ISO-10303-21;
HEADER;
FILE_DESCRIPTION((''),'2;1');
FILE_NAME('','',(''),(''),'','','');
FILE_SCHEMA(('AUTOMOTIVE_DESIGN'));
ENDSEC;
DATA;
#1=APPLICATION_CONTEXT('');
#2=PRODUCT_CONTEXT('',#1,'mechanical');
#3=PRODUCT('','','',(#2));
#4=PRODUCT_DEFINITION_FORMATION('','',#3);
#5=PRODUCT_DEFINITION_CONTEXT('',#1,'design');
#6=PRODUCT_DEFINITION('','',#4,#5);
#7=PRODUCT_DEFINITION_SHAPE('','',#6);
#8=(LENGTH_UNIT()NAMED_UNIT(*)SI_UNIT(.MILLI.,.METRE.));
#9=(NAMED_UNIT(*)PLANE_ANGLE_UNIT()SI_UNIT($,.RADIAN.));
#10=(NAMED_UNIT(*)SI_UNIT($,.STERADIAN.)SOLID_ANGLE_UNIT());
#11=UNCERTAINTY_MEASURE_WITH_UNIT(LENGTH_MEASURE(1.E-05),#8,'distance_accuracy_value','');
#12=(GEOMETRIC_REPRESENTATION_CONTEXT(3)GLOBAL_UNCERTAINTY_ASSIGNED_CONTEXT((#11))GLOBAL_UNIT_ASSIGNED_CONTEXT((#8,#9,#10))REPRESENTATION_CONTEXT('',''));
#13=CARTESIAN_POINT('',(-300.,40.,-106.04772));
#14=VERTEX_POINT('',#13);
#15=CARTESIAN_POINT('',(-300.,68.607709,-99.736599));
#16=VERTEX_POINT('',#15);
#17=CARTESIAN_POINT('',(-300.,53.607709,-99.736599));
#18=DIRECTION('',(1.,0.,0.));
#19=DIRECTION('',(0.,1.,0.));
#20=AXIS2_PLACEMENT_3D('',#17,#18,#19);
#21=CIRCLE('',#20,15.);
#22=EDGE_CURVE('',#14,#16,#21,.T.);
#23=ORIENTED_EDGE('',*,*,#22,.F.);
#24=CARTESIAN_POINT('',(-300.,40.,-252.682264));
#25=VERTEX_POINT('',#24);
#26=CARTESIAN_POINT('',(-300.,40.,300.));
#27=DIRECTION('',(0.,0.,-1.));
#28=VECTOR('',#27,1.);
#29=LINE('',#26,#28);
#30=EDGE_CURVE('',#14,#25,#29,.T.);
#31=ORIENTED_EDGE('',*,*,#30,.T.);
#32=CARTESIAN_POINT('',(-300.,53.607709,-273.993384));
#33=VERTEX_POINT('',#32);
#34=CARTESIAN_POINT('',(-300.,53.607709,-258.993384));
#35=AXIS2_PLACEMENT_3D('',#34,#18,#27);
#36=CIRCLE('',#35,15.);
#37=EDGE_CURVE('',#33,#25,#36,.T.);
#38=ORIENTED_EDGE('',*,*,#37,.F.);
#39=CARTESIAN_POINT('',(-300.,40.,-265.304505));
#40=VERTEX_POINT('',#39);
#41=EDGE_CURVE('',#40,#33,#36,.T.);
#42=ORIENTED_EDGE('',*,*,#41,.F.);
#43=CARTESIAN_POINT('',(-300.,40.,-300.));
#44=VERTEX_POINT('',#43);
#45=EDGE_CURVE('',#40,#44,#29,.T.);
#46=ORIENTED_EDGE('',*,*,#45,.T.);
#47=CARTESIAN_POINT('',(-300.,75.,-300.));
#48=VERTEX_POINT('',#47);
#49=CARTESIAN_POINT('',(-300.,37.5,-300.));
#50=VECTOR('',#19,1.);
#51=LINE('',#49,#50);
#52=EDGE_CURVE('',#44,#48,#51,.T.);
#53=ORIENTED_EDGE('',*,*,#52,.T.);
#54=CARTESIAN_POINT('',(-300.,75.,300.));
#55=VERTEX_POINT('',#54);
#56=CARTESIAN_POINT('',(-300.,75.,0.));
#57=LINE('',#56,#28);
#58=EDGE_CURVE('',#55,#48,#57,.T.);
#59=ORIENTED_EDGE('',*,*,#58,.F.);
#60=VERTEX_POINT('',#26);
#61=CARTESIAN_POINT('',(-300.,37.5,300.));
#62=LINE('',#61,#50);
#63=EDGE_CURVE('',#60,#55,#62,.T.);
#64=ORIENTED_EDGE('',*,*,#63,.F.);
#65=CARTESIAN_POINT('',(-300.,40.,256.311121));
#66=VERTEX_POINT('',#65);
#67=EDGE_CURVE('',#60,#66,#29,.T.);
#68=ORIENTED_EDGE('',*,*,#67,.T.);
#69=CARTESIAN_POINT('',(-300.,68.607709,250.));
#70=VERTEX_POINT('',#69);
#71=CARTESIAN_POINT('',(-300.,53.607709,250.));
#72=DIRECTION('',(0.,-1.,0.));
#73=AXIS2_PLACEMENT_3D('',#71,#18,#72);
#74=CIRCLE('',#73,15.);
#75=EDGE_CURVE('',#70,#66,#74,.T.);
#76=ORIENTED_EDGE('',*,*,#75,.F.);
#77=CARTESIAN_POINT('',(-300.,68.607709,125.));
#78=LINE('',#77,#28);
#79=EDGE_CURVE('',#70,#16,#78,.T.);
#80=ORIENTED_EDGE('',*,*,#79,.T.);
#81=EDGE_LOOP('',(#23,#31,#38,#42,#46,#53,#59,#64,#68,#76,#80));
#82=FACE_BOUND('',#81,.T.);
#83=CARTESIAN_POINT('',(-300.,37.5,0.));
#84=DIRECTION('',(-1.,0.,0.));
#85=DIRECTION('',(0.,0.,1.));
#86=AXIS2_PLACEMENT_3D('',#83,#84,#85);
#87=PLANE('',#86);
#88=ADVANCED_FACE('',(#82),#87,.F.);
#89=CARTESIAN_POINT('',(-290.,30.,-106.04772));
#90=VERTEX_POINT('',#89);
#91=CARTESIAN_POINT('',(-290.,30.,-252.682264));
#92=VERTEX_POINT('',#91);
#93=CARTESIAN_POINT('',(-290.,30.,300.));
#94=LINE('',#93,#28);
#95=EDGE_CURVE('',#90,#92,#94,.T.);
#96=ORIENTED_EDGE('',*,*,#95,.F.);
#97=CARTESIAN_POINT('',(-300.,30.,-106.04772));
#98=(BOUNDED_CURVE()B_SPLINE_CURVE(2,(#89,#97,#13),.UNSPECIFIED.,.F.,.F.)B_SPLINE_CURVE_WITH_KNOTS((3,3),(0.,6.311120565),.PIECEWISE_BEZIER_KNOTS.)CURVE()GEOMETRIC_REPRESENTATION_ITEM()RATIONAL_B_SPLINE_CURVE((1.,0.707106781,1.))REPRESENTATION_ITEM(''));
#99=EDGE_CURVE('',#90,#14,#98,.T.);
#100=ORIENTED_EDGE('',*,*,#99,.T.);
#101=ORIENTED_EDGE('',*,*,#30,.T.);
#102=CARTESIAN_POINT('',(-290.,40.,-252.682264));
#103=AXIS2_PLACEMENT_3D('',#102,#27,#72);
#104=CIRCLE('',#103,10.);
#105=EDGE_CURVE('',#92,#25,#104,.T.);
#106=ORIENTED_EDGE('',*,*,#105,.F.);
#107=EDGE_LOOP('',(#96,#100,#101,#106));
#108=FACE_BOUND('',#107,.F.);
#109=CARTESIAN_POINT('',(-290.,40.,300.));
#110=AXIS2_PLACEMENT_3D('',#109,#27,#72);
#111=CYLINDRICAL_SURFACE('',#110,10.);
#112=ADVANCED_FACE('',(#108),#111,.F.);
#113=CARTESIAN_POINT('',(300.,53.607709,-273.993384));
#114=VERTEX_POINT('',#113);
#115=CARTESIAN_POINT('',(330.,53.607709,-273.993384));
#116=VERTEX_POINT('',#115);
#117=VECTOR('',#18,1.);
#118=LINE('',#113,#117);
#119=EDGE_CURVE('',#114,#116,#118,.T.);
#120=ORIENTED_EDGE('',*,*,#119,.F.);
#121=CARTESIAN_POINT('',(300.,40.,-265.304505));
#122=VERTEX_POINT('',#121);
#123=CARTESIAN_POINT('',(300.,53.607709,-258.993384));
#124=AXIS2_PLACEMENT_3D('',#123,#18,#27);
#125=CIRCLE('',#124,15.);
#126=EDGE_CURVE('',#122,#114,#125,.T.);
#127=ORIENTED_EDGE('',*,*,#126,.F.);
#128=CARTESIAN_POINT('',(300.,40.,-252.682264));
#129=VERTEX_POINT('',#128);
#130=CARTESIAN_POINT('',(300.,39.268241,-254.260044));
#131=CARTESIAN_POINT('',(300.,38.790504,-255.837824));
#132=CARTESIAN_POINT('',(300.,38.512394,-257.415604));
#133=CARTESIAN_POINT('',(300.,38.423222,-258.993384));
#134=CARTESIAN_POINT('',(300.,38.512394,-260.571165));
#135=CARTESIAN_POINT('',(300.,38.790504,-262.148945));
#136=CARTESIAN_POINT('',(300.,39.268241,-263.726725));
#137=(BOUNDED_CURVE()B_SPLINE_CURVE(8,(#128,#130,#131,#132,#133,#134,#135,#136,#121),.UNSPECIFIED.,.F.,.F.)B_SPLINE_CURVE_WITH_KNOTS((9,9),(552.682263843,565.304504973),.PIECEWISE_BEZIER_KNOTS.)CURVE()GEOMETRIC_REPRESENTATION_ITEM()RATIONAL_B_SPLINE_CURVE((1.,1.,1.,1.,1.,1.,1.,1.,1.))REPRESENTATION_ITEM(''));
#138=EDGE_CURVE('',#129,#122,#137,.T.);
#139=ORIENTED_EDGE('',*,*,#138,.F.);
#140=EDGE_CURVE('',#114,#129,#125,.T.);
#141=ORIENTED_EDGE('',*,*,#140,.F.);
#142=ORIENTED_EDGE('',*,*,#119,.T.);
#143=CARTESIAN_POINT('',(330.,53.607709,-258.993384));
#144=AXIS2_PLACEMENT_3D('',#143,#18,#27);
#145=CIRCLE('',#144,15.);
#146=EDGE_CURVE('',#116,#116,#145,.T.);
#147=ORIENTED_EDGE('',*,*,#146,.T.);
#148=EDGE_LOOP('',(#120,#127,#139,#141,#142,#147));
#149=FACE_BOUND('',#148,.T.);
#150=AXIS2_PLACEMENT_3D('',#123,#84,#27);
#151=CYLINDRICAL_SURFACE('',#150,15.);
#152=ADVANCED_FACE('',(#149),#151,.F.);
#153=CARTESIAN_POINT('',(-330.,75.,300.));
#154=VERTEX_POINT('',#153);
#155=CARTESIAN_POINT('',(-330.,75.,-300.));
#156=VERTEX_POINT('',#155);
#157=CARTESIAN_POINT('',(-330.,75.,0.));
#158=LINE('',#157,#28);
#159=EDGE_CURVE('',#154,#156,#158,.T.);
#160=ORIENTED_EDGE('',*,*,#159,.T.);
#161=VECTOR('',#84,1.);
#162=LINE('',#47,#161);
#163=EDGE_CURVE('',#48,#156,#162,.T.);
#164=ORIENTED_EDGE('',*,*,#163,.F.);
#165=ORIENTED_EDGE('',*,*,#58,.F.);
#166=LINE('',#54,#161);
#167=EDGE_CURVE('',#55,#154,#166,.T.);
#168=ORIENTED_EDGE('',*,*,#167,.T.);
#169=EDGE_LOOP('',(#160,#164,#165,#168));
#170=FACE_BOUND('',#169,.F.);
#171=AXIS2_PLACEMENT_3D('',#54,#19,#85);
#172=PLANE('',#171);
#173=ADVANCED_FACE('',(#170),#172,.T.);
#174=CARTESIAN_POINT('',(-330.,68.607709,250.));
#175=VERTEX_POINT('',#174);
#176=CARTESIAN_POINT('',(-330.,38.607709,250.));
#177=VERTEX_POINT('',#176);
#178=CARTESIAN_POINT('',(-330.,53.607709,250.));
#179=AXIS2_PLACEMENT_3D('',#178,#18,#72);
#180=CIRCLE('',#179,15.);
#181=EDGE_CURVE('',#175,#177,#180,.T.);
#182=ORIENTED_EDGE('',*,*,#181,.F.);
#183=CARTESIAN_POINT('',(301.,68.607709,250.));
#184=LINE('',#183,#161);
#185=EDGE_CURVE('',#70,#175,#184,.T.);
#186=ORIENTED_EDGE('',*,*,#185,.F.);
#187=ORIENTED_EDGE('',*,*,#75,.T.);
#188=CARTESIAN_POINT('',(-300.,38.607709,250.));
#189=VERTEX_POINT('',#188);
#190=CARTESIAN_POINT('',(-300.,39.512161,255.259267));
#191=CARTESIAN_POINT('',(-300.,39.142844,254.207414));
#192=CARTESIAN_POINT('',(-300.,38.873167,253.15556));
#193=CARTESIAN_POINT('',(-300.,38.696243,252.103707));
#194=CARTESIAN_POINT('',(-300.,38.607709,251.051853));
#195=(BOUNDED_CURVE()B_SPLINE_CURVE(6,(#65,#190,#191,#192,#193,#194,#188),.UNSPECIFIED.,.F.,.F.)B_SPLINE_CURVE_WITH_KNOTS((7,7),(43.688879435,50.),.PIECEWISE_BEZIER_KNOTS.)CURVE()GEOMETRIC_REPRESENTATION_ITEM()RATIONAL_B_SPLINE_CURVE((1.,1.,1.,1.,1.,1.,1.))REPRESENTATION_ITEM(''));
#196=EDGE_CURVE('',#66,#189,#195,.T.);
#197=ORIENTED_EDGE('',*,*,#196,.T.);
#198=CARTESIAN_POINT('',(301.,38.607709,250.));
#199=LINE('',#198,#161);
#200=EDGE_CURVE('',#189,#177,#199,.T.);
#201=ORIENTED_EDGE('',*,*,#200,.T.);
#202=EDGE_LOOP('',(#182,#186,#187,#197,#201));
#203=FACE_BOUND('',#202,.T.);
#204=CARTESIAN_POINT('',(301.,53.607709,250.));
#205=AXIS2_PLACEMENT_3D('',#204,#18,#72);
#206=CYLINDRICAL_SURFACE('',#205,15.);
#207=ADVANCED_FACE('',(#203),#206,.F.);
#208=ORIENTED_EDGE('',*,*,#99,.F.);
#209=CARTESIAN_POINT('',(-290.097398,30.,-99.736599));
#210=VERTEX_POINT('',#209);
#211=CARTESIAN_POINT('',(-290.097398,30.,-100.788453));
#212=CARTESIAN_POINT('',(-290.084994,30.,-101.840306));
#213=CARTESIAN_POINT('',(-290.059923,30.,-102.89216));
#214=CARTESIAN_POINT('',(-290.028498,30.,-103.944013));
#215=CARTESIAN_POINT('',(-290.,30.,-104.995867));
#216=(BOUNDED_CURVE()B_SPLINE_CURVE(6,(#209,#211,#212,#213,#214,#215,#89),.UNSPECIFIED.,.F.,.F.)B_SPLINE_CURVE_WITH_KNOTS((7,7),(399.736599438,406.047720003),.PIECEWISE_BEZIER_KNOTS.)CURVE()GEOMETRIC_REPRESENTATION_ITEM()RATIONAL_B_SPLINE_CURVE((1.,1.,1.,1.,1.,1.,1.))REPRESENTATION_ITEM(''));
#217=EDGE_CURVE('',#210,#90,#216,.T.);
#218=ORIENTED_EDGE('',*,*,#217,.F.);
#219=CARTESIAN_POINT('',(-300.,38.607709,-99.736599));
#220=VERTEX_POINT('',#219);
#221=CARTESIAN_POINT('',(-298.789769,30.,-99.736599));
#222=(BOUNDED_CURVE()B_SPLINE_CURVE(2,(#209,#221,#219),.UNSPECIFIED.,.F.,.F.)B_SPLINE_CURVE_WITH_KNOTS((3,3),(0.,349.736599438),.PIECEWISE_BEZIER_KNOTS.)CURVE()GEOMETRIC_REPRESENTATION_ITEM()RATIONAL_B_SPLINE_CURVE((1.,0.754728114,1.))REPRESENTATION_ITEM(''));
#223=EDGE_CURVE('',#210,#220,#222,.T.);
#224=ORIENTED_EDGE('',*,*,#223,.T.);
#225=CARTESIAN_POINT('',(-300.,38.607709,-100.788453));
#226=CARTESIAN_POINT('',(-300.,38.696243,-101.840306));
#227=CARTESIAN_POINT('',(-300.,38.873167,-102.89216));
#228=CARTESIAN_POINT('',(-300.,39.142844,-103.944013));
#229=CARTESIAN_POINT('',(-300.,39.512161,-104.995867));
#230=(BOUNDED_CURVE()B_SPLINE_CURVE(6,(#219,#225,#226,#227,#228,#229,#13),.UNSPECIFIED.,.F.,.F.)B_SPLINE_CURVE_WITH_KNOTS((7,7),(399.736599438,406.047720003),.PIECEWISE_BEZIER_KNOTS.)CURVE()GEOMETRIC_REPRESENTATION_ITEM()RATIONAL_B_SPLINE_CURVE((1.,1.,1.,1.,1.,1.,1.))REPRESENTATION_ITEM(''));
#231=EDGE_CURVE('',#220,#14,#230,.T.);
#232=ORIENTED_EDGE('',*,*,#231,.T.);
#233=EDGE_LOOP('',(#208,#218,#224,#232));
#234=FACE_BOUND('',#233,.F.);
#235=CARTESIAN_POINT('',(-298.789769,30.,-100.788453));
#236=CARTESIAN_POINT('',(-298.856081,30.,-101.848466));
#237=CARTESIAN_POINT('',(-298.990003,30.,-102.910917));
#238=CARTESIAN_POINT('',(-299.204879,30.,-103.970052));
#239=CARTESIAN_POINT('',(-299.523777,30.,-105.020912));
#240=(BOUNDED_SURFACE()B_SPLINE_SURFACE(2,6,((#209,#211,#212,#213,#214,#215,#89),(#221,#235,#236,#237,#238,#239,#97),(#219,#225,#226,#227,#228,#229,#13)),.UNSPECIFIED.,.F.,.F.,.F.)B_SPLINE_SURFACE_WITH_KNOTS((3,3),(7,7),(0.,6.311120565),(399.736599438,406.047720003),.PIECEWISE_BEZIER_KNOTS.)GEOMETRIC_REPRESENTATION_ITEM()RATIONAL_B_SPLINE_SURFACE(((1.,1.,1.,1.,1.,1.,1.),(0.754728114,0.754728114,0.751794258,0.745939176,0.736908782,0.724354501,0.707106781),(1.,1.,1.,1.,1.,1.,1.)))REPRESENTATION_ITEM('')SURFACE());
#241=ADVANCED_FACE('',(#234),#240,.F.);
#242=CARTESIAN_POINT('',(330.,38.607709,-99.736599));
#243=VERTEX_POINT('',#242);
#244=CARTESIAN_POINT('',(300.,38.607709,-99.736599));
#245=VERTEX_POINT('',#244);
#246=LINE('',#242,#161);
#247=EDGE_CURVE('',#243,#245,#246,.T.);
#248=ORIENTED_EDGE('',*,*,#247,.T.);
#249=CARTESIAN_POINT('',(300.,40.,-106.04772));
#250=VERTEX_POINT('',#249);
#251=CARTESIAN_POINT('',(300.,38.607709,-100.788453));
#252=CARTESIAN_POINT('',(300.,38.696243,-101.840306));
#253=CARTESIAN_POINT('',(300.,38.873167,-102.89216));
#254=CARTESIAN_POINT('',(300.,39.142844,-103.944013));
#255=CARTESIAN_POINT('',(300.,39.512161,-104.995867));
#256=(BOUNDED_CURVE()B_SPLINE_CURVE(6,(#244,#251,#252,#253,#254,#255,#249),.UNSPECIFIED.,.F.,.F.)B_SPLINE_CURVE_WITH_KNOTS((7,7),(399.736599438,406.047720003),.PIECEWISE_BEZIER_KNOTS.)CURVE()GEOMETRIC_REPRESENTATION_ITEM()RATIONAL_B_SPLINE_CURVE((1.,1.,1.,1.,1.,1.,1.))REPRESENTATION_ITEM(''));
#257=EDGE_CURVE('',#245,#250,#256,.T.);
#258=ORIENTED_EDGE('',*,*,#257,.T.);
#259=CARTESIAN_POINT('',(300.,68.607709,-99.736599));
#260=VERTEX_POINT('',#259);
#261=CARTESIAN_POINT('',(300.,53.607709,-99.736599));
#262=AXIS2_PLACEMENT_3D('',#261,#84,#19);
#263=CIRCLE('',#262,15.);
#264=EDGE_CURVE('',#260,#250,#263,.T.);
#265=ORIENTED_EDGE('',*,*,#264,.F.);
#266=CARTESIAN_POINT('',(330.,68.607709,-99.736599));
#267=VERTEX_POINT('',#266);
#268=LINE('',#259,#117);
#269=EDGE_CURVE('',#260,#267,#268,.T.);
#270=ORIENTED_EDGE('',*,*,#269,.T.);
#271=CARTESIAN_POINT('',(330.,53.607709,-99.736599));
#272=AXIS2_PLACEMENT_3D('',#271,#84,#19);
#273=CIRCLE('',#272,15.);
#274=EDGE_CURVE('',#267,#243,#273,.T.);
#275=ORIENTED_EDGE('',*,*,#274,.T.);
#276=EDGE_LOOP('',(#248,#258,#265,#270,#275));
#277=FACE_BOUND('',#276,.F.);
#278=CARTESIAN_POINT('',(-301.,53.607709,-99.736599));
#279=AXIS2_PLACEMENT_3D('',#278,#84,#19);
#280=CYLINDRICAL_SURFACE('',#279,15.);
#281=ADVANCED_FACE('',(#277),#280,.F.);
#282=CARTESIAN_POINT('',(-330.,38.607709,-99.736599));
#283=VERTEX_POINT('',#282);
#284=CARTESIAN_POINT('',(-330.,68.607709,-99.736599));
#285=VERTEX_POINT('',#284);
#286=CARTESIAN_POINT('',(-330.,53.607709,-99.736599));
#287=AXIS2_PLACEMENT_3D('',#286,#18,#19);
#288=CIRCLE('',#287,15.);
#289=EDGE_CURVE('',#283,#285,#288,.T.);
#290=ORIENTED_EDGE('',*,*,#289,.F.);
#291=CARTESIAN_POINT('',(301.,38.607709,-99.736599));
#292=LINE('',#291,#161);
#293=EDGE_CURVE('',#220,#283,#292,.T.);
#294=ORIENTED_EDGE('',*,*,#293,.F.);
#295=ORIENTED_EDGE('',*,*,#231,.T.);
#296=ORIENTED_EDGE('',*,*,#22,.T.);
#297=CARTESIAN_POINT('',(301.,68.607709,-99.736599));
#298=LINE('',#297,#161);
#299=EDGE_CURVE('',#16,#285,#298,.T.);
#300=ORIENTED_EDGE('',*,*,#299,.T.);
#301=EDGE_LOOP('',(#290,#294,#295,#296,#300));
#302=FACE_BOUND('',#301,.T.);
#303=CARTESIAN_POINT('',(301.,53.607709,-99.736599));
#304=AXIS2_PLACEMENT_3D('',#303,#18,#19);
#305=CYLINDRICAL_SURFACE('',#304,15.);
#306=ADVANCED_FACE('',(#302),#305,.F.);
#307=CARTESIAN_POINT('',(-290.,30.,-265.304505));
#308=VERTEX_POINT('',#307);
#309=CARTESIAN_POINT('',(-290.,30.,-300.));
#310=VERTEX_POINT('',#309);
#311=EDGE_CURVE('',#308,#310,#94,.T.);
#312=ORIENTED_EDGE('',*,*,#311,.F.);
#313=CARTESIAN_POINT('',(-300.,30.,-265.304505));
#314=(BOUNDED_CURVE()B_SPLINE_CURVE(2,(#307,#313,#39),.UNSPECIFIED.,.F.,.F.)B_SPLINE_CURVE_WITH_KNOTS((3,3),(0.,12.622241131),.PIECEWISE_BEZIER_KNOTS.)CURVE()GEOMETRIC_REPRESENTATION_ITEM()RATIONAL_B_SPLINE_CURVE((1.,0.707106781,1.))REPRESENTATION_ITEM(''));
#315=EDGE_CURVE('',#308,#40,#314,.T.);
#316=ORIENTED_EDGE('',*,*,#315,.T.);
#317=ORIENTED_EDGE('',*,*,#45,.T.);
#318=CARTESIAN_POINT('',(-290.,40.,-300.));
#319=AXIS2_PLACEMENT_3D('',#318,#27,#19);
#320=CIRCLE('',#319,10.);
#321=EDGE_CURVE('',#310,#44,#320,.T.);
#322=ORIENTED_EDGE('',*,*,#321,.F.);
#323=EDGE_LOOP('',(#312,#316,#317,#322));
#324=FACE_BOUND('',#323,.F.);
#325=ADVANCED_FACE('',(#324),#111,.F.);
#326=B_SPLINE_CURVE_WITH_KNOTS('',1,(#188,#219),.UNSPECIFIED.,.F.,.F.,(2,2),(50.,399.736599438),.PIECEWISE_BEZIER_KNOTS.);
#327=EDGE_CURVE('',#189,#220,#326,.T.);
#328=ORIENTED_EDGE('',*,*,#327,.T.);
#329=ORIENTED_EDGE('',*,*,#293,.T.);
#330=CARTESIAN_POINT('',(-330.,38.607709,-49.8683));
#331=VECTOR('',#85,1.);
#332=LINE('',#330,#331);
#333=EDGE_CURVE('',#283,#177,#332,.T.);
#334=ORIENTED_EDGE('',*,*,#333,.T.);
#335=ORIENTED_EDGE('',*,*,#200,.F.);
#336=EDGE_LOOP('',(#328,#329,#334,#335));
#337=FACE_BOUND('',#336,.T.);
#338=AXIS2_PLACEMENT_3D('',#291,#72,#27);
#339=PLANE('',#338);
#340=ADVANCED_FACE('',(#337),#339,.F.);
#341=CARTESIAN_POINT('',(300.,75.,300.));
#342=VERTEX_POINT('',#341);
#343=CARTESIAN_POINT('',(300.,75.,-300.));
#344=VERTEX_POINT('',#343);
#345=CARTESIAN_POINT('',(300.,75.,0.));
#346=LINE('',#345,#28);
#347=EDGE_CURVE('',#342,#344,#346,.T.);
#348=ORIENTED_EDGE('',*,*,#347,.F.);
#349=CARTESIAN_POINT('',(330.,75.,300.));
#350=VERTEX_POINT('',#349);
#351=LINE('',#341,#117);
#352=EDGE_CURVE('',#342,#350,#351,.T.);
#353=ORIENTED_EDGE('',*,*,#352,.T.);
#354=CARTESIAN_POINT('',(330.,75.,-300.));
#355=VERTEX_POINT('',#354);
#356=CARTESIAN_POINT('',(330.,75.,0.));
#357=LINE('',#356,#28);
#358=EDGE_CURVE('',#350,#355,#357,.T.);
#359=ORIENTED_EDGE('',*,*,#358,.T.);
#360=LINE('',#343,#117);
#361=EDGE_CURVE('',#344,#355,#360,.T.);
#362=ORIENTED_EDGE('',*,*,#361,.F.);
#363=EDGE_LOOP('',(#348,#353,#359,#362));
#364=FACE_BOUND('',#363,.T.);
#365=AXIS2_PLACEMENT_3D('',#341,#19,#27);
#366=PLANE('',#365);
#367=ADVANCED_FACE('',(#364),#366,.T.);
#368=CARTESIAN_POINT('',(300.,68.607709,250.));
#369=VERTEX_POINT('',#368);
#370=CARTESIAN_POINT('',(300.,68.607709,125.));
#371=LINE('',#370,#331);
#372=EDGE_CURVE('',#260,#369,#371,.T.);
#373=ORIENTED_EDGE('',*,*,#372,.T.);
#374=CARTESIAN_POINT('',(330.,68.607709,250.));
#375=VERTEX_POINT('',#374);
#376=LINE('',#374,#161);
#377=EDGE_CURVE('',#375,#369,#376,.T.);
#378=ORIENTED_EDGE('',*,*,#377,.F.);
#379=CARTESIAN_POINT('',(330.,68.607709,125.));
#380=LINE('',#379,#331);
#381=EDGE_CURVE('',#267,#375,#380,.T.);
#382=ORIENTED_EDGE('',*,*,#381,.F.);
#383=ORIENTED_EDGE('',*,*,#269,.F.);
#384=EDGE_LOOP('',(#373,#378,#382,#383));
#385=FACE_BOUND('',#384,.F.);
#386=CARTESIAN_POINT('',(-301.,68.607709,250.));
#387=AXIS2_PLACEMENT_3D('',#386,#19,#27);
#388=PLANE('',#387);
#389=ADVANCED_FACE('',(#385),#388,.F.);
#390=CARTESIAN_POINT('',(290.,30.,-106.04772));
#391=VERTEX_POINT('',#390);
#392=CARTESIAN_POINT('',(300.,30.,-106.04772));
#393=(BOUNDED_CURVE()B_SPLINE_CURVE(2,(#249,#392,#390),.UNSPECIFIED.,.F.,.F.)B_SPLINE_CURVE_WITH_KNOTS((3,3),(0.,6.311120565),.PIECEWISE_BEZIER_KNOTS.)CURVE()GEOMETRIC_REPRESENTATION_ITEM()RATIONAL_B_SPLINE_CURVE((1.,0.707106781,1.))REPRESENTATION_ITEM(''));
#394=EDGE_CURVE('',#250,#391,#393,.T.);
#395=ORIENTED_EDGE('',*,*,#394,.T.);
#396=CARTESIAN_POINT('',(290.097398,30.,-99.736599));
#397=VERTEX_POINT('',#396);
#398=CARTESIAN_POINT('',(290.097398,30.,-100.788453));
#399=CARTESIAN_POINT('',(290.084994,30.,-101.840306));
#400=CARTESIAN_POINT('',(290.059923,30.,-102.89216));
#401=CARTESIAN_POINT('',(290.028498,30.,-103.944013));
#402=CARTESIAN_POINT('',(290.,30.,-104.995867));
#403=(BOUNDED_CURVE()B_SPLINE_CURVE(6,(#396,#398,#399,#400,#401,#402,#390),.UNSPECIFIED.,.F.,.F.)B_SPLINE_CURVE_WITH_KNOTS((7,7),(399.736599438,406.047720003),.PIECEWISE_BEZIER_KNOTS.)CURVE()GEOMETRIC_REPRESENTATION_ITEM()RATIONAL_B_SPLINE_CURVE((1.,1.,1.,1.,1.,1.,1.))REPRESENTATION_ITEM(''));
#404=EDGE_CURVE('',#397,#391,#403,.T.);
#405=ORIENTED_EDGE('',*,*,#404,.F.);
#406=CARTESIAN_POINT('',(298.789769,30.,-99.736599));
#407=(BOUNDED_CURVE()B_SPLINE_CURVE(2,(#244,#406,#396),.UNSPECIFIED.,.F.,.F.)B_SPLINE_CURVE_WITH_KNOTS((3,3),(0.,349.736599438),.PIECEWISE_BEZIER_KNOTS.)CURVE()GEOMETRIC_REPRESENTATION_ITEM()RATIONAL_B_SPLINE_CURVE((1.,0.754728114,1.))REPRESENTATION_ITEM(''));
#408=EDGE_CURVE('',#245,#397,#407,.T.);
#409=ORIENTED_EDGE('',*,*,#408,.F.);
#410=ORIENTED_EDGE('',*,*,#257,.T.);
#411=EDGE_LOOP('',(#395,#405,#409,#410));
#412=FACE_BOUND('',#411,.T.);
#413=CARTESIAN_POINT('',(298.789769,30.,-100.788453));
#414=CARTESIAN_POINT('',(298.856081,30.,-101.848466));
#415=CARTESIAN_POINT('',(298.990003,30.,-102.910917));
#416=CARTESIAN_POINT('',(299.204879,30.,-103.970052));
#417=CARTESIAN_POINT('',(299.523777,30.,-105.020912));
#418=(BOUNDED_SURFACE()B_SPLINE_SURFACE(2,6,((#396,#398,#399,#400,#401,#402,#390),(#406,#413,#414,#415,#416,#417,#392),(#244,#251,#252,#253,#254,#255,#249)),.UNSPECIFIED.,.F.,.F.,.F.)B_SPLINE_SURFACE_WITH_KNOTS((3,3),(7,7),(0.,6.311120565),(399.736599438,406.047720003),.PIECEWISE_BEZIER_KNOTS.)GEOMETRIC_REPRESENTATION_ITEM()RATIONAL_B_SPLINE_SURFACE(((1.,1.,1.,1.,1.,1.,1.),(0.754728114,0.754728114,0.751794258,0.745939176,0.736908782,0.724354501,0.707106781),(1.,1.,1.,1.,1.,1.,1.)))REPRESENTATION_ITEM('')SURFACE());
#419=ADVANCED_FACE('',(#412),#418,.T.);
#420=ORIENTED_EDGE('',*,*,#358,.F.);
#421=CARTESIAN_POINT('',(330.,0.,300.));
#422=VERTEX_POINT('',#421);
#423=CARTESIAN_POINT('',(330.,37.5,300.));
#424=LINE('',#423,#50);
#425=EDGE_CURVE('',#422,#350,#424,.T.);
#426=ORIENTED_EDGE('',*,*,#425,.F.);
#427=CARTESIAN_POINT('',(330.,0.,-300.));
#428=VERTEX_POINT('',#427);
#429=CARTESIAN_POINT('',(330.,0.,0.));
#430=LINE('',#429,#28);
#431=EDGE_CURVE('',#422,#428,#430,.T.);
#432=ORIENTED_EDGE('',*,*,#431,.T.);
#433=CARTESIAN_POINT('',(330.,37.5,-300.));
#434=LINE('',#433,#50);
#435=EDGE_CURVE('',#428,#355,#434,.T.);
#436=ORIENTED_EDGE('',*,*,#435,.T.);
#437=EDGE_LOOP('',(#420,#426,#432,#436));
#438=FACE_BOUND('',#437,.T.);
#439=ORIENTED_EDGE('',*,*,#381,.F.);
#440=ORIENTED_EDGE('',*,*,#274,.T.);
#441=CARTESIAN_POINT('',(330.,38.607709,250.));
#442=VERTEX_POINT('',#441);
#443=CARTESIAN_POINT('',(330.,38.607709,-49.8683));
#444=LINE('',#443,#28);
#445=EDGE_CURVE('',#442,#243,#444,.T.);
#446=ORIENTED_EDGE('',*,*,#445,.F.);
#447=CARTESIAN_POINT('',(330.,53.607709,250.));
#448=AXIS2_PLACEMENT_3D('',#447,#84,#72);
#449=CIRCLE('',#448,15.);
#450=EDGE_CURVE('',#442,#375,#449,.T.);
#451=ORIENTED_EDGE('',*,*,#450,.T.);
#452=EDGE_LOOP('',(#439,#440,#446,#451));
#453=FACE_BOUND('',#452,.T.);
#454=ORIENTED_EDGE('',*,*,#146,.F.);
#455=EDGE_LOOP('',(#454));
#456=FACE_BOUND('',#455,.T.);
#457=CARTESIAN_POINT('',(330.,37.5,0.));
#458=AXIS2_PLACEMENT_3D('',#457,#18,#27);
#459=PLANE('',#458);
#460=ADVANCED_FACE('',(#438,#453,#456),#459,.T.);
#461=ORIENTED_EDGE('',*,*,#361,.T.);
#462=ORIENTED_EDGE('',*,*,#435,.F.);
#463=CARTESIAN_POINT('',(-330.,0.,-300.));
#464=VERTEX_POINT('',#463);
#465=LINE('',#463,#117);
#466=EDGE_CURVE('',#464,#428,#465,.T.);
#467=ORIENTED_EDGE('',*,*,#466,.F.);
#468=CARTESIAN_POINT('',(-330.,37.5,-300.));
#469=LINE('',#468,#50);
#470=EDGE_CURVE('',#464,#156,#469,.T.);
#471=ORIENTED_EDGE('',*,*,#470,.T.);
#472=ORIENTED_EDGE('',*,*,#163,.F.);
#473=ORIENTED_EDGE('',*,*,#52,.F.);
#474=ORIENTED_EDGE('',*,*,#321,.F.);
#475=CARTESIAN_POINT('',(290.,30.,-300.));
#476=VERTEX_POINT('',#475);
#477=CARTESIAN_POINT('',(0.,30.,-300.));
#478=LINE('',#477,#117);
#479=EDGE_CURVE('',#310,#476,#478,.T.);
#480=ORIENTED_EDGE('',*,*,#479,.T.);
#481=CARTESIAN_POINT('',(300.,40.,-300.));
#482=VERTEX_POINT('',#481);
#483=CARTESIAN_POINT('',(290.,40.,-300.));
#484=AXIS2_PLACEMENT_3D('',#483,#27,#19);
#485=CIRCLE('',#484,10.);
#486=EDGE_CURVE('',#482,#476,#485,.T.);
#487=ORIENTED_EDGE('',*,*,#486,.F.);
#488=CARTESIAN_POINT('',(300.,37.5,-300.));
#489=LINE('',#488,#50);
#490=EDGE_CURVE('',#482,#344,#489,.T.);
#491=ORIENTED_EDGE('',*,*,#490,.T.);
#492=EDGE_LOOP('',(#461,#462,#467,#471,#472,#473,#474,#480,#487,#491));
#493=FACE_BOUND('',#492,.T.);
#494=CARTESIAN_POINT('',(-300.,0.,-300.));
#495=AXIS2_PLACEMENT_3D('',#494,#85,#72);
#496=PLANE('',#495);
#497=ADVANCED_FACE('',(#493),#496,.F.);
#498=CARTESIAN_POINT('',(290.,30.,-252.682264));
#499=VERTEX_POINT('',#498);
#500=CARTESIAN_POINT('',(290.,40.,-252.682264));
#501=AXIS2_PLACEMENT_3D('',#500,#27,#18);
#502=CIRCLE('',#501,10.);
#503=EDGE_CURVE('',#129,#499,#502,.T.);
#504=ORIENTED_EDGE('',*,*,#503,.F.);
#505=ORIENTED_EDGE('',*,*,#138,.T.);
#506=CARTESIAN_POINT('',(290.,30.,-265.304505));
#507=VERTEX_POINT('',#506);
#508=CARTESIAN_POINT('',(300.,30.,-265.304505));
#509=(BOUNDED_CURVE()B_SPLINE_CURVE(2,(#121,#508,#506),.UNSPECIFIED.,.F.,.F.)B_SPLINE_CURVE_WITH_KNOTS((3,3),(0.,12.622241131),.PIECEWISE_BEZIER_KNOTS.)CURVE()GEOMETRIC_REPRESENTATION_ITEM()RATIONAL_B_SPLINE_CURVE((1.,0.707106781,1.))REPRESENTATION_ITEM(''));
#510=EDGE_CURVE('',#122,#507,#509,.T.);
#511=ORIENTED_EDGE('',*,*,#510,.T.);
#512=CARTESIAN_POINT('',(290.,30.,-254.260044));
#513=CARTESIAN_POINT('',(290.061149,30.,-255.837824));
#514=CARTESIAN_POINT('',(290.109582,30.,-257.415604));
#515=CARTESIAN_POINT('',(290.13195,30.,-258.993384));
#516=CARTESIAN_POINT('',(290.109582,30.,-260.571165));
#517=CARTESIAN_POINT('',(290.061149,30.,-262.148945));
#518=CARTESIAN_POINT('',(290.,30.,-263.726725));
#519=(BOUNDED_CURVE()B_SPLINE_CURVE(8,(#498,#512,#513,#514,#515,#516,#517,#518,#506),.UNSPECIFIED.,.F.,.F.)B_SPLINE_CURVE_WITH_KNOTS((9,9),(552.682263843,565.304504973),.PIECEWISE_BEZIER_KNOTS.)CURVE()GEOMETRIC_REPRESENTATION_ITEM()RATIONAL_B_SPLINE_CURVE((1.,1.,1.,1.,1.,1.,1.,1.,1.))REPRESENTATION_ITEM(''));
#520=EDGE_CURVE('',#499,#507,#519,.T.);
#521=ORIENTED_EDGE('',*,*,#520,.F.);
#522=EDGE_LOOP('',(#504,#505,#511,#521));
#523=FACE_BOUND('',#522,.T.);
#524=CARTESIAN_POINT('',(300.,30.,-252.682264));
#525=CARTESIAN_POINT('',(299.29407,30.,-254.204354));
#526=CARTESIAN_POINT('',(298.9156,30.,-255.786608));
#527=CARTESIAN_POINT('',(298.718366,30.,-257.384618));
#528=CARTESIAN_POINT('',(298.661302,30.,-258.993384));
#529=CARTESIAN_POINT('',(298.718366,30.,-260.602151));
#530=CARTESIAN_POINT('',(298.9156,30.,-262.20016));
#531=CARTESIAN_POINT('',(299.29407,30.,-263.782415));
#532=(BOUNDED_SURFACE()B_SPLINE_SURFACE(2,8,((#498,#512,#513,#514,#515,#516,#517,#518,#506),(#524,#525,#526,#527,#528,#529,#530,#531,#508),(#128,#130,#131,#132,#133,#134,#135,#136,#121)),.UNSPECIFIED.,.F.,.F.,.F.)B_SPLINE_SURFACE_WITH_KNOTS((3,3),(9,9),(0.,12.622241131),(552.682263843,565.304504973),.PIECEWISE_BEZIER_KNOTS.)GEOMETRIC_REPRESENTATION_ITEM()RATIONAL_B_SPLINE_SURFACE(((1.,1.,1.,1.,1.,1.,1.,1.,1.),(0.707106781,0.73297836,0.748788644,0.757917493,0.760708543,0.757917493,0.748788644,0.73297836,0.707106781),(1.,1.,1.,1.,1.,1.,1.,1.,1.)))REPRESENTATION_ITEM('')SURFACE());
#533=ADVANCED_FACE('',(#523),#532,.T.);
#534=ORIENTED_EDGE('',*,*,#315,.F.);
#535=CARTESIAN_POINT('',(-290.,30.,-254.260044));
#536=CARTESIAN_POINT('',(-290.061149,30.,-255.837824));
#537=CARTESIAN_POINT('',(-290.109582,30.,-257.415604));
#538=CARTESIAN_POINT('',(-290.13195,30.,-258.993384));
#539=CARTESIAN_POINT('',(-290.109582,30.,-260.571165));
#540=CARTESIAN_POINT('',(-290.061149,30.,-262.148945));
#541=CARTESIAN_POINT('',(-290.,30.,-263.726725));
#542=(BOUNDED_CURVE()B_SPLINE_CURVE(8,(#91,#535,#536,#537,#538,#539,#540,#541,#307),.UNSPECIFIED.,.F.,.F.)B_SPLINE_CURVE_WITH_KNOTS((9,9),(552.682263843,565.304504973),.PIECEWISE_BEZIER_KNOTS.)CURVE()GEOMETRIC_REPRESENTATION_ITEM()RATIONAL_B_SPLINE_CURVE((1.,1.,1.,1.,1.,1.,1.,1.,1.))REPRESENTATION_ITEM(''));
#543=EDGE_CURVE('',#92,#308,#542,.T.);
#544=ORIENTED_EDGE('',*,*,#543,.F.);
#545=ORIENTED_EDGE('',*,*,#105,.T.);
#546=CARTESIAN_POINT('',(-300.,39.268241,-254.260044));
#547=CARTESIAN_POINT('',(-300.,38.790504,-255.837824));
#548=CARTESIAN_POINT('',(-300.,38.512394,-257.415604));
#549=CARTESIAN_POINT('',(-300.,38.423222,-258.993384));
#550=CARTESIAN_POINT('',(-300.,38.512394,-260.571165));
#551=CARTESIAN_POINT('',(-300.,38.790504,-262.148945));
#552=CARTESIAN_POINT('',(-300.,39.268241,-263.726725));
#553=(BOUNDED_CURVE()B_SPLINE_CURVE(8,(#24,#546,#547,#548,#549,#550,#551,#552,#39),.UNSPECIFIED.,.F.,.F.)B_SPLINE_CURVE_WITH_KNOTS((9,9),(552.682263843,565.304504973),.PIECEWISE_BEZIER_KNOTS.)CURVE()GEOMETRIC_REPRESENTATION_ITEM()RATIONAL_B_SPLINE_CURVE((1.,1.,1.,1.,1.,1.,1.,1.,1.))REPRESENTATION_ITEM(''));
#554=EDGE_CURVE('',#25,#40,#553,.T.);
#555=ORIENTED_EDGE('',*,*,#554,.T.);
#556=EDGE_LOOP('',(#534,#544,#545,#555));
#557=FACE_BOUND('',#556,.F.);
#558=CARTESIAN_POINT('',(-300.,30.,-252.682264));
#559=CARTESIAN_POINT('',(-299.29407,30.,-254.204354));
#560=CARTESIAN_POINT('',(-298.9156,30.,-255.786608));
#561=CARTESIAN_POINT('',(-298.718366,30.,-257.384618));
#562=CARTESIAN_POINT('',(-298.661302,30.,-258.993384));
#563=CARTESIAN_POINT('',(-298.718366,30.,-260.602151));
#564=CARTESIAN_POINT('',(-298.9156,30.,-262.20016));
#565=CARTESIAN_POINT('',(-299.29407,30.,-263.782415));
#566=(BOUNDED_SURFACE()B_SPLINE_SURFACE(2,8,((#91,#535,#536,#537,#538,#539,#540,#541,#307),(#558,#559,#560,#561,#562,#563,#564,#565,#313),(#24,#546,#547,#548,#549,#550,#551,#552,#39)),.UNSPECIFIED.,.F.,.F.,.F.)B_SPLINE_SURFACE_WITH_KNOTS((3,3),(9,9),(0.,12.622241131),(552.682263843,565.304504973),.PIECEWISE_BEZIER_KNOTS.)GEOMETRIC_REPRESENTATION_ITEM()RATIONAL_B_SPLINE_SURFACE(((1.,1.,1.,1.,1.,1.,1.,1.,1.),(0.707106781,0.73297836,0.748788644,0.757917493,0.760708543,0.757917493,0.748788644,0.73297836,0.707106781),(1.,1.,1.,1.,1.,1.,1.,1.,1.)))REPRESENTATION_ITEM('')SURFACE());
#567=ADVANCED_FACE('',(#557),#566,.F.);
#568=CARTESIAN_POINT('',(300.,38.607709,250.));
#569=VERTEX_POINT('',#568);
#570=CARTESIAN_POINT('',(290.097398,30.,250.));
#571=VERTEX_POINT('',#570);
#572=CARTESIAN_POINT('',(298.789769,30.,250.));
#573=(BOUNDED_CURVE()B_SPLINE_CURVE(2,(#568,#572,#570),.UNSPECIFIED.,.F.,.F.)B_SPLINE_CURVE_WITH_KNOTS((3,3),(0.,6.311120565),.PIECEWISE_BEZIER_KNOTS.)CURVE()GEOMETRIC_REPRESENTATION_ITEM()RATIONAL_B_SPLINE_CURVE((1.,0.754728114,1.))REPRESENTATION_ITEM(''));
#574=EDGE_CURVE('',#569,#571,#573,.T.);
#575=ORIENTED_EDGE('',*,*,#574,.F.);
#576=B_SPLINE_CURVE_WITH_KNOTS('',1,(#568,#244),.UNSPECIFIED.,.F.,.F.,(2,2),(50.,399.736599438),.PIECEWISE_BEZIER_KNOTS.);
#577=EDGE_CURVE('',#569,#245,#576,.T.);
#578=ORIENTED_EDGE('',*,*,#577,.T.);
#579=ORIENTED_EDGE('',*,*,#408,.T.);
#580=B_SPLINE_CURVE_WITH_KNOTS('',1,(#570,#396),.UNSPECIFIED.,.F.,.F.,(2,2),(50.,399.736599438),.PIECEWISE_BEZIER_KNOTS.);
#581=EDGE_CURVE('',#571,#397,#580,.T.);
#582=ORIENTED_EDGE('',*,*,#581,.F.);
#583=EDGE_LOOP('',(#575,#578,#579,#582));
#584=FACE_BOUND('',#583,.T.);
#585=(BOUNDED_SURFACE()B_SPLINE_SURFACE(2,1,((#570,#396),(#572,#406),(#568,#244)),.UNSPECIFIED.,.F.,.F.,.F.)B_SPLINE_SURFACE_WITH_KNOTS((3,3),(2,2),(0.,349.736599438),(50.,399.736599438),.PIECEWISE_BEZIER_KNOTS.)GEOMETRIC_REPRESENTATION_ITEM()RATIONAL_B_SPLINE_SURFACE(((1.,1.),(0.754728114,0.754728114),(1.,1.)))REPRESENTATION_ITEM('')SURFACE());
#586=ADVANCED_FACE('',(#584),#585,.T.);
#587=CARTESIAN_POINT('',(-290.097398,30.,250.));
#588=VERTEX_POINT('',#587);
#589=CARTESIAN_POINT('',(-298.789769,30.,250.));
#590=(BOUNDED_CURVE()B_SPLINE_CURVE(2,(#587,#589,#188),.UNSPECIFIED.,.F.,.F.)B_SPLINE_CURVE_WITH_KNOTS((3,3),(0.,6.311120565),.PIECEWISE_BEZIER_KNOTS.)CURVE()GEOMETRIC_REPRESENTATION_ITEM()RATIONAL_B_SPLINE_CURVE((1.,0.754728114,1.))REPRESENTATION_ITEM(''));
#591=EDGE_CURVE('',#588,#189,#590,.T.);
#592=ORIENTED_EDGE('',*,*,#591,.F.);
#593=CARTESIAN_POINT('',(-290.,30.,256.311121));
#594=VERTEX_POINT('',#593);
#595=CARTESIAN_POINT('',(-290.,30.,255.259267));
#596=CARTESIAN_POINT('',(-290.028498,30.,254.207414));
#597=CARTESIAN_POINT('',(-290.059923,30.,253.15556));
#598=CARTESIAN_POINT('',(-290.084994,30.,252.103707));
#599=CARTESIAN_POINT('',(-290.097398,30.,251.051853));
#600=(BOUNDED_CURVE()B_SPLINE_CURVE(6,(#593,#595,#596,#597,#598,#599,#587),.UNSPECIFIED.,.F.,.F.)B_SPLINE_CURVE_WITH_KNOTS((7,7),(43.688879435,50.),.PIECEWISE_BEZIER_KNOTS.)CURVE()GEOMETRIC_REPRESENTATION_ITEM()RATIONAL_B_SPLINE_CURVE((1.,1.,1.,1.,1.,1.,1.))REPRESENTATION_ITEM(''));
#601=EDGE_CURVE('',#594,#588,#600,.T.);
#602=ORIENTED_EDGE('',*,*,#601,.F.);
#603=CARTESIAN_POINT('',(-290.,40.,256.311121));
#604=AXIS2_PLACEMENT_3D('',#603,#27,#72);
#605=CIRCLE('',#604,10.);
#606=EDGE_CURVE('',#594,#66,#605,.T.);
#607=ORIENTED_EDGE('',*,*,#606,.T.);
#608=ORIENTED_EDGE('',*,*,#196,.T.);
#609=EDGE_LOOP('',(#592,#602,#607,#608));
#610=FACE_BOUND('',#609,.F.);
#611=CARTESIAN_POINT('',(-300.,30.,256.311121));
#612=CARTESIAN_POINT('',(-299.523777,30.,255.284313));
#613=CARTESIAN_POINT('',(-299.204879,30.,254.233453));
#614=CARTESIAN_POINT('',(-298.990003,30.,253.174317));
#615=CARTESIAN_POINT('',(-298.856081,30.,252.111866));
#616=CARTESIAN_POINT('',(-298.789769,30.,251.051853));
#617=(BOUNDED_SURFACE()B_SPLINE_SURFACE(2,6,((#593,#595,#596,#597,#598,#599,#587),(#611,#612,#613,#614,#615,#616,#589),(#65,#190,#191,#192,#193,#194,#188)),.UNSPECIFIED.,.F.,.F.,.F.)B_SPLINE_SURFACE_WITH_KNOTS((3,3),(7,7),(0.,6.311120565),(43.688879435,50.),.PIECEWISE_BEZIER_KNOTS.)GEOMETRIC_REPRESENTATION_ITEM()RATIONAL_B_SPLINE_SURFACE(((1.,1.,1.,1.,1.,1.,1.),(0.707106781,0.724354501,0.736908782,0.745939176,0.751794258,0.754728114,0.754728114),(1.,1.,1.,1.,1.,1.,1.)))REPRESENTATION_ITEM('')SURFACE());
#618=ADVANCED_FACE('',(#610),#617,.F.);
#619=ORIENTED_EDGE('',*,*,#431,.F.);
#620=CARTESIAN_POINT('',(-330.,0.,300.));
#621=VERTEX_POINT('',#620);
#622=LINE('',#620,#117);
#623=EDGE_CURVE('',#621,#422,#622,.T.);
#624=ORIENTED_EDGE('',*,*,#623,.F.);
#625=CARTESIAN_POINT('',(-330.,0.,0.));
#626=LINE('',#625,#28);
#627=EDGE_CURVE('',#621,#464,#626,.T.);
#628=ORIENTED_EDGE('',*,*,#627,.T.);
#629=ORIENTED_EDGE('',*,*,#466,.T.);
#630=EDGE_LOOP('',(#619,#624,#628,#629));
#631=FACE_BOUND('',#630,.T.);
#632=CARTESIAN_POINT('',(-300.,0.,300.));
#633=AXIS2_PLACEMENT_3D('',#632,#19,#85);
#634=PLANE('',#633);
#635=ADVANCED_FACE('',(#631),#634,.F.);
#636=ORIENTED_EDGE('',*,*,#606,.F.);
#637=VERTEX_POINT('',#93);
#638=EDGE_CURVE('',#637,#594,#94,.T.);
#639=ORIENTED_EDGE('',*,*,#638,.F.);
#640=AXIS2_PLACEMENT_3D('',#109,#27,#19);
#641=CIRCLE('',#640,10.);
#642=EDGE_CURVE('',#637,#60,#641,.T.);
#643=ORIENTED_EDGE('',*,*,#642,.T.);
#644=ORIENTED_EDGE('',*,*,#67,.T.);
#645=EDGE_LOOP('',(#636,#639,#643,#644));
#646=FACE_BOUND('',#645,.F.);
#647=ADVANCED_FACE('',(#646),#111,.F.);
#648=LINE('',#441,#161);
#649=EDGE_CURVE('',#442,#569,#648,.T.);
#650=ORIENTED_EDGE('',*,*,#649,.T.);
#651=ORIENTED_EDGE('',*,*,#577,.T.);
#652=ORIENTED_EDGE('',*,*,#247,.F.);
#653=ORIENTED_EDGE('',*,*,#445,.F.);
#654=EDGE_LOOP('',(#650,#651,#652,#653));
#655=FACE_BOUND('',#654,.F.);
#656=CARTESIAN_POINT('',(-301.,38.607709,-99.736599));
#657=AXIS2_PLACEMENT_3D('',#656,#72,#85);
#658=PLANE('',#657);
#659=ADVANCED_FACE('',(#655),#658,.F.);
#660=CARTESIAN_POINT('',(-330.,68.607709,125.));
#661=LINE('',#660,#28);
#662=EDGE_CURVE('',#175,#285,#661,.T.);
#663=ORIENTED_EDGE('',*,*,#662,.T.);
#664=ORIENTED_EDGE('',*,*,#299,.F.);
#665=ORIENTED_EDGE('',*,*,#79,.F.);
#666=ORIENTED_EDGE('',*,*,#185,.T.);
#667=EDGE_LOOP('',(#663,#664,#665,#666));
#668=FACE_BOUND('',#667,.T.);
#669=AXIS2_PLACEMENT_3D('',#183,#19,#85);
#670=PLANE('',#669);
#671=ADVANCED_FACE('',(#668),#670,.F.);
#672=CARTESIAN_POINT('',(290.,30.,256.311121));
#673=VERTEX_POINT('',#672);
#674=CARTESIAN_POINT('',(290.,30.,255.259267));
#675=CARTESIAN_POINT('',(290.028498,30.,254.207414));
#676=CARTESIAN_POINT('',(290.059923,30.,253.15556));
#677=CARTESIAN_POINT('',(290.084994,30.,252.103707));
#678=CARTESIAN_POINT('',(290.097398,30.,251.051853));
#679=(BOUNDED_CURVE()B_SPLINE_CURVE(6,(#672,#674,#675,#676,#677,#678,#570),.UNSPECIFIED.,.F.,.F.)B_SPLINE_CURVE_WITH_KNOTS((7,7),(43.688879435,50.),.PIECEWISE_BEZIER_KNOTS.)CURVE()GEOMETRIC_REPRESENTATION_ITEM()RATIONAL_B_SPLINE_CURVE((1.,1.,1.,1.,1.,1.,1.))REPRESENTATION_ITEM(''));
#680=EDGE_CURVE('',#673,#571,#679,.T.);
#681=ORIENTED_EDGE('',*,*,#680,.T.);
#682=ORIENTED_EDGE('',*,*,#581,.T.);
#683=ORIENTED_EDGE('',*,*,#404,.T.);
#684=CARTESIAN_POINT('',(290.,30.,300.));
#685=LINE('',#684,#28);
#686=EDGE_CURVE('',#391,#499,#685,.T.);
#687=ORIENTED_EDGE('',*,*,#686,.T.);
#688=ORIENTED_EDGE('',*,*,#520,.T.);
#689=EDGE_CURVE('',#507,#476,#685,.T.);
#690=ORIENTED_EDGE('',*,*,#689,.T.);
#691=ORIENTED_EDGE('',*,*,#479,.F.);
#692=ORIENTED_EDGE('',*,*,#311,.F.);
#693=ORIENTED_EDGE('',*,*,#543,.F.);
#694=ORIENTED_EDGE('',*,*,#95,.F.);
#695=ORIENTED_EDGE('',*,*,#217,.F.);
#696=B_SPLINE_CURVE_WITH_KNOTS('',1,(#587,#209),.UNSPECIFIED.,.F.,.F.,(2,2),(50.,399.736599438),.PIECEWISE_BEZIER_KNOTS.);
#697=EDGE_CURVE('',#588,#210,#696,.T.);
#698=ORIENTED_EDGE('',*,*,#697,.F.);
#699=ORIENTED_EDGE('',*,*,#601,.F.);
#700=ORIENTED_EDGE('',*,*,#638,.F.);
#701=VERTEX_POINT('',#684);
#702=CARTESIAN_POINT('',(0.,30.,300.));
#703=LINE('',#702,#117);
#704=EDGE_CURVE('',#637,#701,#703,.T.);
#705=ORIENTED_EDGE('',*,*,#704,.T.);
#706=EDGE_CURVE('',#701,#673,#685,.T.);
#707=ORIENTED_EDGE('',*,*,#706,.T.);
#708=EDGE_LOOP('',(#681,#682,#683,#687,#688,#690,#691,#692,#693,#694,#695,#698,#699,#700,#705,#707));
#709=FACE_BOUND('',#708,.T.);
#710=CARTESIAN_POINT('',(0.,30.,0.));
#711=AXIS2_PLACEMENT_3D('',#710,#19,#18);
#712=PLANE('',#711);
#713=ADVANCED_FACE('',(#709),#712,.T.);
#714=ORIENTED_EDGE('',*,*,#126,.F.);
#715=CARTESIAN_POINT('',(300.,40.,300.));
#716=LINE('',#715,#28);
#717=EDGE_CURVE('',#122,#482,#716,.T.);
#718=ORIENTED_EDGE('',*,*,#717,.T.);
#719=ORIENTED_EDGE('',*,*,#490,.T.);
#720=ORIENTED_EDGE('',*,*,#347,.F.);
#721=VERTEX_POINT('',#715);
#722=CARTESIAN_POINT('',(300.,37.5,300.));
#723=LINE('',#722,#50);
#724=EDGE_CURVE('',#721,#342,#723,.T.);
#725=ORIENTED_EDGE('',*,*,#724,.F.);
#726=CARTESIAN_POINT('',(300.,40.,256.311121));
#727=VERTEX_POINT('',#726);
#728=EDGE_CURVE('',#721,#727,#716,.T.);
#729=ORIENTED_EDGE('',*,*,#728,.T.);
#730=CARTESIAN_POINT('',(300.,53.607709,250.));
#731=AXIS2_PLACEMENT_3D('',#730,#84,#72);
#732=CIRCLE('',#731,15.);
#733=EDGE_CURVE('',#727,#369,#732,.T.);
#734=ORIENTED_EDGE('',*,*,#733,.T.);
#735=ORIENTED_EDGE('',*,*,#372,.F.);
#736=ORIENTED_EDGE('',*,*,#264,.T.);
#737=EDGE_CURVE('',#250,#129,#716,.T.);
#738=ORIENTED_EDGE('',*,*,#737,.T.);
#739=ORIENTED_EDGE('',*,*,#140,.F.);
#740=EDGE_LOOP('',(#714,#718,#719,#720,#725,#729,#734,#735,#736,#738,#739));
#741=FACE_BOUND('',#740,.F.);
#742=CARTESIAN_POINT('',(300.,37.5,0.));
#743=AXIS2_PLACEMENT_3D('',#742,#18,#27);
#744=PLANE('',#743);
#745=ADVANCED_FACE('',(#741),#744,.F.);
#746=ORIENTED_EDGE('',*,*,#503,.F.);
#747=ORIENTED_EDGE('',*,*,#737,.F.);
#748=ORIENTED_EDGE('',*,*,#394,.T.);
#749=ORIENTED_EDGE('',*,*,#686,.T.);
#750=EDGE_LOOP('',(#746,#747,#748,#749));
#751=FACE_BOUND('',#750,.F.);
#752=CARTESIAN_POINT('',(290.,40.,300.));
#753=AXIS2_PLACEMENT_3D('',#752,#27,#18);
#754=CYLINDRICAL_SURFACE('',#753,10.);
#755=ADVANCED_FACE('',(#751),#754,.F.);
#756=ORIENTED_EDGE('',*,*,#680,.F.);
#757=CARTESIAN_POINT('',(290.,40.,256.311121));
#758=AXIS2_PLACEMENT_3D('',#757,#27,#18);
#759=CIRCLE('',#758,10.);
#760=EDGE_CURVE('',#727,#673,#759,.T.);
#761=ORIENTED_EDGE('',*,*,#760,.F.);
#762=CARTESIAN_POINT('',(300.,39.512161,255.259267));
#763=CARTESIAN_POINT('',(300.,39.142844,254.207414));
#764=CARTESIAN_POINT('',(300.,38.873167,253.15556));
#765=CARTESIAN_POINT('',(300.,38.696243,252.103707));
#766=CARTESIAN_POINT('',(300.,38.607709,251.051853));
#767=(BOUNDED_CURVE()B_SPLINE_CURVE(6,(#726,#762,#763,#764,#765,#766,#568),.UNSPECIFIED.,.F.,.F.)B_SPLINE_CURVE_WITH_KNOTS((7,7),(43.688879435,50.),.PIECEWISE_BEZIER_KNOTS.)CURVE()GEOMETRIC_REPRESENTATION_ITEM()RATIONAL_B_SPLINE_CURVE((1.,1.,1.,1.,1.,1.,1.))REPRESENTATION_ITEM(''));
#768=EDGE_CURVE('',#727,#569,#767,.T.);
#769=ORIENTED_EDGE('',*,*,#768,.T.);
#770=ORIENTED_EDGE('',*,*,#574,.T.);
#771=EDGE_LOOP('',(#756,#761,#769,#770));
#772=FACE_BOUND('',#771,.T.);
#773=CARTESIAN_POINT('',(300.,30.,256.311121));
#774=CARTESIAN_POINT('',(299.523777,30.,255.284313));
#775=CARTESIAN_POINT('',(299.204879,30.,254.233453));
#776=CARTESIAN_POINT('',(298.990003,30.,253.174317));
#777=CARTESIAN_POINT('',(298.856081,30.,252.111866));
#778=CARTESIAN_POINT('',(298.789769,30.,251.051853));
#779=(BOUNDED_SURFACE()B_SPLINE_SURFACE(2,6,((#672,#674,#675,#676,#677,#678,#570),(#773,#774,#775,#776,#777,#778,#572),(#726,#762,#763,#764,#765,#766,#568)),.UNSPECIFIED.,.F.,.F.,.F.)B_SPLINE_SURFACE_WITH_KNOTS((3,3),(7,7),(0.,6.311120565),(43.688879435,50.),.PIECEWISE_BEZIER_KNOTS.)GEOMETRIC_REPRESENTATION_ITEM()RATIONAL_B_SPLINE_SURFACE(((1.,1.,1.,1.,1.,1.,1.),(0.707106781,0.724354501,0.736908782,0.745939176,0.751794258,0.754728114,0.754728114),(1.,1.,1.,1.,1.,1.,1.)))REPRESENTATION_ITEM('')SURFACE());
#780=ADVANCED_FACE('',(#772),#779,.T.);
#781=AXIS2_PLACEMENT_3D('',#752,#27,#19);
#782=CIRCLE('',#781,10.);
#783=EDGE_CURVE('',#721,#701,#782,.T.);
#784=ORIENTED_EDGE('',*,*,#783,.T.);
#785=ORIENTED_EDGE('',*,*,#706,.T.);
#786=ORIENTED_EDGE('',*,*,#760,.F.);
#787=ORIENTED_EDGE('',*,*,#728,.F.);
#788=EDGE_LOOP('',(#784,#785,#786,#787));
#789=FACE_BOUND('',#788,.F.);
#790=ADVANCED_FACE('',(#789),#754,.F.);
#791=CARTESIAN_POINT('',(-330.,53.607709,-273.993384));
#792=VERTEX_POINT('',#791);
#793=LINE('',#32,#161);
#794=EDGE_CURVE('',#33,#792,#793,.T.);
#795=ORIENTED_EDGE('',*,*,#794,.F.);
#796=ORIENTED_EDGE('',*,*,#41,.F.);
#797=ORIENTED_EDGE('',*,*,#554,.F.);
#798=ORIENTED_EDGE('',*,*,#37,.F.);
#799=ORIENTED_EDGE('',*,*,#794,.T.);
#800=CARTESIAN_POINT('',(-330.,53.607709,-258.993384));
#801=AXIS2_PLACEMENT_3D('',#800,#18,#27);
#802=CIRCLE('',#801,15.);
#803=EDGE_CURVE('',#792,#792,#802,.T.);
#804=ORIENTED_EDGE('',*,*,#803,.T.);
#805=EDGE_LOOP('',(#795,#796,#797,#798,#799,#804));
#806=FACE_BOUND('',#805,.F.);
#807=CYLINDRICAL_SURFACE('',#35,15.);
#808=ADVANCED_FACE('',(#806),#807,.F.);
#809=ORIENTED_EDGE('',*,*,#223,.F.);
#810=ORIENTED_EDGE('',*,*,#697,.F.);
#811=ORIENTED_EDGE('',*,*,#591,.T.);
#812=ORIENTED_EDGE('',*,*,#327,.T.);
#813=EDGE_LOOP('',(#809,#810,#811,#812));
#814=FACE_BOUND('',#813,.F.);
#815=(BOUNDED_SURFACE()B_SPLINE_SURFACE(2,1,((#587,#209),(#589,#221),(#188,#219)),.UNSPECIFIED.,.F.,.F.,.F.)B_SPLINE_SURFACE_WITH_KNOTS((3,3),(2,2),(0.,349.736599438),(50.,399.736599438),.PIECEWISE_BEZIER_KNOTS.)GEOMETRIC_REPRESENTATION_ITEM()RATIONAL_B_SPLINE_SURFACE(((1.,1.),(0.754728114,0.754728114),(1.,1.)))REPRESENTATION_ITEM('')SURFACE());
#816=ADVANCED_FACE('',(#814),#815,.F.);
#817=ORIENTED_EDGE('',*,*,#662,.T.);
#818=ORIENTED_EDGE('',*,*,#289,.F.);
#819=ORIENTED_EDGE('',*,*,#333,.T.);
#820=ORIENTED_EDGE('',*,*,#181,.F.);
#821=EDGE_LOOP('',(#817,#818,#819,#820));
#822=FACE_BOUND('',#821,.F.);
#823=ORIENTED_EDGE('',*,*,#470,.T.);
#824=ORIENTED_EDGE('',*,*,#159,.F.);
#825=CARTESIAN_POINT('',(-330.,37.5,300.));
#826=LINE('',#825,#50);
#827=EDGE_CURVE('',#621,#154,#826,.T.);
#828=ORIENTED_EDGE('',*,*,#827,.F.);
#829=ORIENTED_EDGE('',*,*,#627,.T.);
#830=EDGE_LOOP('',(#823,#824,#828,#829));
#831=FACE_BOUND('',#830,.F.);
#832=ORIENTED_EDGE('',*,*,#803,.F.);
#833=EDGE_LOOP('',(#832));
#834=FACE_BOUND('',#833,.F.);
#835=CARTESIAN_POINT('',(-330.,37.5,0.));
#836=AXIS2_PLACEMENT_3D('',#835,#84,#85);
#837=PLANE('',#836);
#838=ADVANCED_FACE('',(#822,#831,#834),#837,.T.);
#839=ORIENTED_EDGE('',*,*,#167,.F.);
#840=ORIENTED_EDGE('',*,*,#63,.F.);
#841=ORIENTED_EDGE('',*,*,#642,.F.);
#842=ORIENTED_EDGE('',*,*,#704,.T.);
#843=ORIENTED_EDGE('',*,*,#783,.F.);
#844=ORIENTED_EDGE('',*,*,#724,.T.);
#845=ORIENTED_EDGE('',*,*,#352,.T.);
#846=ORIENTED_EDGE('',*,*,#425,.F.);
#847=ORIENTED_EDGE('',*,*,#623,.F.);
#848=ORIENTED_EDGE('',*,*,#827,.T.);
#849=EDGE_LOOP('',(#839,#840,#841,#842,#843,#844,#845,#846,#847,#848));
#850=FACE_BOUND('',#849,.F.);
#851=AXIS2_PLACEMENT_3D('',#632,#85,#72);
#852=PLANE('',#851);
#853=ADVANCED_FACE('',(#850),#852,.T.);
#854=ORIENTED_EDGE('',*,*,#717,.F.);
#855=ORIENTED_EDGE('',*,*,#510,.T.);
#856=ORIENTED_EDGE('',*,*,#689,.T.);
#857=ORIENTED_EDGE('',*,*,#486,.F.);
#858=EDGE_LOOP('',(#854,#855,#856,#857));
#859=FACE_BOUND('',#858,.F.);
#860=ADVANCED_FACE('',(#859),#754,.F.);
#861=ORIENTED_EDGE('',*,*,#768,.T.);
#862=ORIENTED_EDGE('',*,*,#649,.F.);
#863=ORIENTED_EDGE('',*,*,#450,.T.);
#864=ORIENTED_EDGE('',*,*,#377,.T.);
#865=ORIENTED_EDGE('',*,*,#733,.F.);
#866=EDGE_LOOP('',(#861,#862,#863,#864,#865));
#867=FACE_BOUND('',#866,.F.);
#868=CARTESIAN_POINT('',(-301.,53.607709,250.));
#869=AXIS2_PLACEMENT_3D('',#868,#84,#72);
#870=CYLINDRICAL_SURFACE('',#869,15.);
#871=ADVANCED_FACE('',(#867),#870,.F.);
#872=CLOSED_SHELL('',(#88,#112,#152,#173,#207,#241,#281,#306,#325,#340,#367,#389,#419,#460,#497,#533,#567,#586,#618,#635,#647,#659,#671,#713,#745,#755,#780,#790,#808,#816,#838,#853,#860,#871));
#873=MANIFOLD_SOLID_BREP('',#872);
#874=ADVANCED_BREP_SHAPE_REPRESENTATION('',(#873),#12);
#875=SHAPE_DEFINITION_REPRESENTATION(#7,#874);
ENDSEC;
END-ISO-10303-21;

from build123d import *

# Parameters (mm, degrees)
SKETCH1_W           = 600
SKETCH1_H           = 600
BOSS_EXTRUDE1_DEPTH = 30
SKETCH2_W           = 600
SKETCH2_H           = 75
SKETCH2_R           = 15
BOSS_EXTRUDE2_DEPTH = 30
CUT_EXTRUDE4_START  = -631
CUT_EXTRUDE4_DEPTH  = 661
FILLET1_R           = 10


with BuildPart() as part:
    # Sketch1 → Boss-Extrude1 (new body)
    with BuildSketch(Plane(origin=(0, 0, 0), x_dir=(1, 0, 0), z_dir=(0, 1, 0))):
        Rectangle(SKETCH1_W, SKETCH1_H)
    extrude(amount=BOSS_EXTRUDE1_DEPTH)

    # Sketch2 → Boss-Extrude2 (add)
    with BuildSketch(Plane(origin=(300, 0, 0), x_dir=(0, 0, -1), z_dir=(1, 0, 0))):
        with Locations((0, 37.5)):
            Rectangle(SKETCH2_W, SKETCH2_H)
        with Locations((258.993384408, 53.607709477)):
            Circle(SKETCH2_R, mode=Mode.SUBTRACT)
    boss_extrude2 = extrude(amount=BOSS_EXTRUDE2_DEPTH)

    # Sketch3 → Cut-Extrude4 (cut)
    with BuildSketch(Plane(origin=(330, 0, 0), x_dir=(0, 0, -1), z_dir=(1, 0, 0)).offset(CUT_EXTRUDE4_START)):
        with BuildLine():
            Line((-250, 68.607709477), (99.736599438, 68.607709477))
            ThreePointArc((99.736599438, 68.607709477), (114.736599438, 53.607709477), (99.736599438, 38.607709477))
            Line((99.736599438, 38.607709477), (-250, 38.607709477))
            ThreePointArc((-250, 38.607709477), (-265, 53.607709477), (-250, 68.607709477))
        make_face()
    cut_extrude4 = extrude(amount=CUT_EXTRUDE4_DEPTH, mode=Mode.SUBTRACT)

    # Mirror1: Boss-Extrude2, Cut-Extrude4 across plane
    add(boss_extrude2.mirror(Plane(origin=(0, 0, 0), x_dir=(0, 0, 1), z_dir=(1, 0, 0))))
    add(cut_extrude4.mirror(Plane(origin=(0, 0, 0), x_dir=(0, 0, 1), z_dir=(1, 0, 0))), mode=Mode.SUBTRACT)

    # Fillet1
    fillet1_edges = [part.edges().sort_by_distance(p)[0] for p in [
        (300, 30, 0),
        (-300, 30, 0),
    ]]
    fillet(fillet1_edges, radius=FILLET1_R)


solid = part.part
